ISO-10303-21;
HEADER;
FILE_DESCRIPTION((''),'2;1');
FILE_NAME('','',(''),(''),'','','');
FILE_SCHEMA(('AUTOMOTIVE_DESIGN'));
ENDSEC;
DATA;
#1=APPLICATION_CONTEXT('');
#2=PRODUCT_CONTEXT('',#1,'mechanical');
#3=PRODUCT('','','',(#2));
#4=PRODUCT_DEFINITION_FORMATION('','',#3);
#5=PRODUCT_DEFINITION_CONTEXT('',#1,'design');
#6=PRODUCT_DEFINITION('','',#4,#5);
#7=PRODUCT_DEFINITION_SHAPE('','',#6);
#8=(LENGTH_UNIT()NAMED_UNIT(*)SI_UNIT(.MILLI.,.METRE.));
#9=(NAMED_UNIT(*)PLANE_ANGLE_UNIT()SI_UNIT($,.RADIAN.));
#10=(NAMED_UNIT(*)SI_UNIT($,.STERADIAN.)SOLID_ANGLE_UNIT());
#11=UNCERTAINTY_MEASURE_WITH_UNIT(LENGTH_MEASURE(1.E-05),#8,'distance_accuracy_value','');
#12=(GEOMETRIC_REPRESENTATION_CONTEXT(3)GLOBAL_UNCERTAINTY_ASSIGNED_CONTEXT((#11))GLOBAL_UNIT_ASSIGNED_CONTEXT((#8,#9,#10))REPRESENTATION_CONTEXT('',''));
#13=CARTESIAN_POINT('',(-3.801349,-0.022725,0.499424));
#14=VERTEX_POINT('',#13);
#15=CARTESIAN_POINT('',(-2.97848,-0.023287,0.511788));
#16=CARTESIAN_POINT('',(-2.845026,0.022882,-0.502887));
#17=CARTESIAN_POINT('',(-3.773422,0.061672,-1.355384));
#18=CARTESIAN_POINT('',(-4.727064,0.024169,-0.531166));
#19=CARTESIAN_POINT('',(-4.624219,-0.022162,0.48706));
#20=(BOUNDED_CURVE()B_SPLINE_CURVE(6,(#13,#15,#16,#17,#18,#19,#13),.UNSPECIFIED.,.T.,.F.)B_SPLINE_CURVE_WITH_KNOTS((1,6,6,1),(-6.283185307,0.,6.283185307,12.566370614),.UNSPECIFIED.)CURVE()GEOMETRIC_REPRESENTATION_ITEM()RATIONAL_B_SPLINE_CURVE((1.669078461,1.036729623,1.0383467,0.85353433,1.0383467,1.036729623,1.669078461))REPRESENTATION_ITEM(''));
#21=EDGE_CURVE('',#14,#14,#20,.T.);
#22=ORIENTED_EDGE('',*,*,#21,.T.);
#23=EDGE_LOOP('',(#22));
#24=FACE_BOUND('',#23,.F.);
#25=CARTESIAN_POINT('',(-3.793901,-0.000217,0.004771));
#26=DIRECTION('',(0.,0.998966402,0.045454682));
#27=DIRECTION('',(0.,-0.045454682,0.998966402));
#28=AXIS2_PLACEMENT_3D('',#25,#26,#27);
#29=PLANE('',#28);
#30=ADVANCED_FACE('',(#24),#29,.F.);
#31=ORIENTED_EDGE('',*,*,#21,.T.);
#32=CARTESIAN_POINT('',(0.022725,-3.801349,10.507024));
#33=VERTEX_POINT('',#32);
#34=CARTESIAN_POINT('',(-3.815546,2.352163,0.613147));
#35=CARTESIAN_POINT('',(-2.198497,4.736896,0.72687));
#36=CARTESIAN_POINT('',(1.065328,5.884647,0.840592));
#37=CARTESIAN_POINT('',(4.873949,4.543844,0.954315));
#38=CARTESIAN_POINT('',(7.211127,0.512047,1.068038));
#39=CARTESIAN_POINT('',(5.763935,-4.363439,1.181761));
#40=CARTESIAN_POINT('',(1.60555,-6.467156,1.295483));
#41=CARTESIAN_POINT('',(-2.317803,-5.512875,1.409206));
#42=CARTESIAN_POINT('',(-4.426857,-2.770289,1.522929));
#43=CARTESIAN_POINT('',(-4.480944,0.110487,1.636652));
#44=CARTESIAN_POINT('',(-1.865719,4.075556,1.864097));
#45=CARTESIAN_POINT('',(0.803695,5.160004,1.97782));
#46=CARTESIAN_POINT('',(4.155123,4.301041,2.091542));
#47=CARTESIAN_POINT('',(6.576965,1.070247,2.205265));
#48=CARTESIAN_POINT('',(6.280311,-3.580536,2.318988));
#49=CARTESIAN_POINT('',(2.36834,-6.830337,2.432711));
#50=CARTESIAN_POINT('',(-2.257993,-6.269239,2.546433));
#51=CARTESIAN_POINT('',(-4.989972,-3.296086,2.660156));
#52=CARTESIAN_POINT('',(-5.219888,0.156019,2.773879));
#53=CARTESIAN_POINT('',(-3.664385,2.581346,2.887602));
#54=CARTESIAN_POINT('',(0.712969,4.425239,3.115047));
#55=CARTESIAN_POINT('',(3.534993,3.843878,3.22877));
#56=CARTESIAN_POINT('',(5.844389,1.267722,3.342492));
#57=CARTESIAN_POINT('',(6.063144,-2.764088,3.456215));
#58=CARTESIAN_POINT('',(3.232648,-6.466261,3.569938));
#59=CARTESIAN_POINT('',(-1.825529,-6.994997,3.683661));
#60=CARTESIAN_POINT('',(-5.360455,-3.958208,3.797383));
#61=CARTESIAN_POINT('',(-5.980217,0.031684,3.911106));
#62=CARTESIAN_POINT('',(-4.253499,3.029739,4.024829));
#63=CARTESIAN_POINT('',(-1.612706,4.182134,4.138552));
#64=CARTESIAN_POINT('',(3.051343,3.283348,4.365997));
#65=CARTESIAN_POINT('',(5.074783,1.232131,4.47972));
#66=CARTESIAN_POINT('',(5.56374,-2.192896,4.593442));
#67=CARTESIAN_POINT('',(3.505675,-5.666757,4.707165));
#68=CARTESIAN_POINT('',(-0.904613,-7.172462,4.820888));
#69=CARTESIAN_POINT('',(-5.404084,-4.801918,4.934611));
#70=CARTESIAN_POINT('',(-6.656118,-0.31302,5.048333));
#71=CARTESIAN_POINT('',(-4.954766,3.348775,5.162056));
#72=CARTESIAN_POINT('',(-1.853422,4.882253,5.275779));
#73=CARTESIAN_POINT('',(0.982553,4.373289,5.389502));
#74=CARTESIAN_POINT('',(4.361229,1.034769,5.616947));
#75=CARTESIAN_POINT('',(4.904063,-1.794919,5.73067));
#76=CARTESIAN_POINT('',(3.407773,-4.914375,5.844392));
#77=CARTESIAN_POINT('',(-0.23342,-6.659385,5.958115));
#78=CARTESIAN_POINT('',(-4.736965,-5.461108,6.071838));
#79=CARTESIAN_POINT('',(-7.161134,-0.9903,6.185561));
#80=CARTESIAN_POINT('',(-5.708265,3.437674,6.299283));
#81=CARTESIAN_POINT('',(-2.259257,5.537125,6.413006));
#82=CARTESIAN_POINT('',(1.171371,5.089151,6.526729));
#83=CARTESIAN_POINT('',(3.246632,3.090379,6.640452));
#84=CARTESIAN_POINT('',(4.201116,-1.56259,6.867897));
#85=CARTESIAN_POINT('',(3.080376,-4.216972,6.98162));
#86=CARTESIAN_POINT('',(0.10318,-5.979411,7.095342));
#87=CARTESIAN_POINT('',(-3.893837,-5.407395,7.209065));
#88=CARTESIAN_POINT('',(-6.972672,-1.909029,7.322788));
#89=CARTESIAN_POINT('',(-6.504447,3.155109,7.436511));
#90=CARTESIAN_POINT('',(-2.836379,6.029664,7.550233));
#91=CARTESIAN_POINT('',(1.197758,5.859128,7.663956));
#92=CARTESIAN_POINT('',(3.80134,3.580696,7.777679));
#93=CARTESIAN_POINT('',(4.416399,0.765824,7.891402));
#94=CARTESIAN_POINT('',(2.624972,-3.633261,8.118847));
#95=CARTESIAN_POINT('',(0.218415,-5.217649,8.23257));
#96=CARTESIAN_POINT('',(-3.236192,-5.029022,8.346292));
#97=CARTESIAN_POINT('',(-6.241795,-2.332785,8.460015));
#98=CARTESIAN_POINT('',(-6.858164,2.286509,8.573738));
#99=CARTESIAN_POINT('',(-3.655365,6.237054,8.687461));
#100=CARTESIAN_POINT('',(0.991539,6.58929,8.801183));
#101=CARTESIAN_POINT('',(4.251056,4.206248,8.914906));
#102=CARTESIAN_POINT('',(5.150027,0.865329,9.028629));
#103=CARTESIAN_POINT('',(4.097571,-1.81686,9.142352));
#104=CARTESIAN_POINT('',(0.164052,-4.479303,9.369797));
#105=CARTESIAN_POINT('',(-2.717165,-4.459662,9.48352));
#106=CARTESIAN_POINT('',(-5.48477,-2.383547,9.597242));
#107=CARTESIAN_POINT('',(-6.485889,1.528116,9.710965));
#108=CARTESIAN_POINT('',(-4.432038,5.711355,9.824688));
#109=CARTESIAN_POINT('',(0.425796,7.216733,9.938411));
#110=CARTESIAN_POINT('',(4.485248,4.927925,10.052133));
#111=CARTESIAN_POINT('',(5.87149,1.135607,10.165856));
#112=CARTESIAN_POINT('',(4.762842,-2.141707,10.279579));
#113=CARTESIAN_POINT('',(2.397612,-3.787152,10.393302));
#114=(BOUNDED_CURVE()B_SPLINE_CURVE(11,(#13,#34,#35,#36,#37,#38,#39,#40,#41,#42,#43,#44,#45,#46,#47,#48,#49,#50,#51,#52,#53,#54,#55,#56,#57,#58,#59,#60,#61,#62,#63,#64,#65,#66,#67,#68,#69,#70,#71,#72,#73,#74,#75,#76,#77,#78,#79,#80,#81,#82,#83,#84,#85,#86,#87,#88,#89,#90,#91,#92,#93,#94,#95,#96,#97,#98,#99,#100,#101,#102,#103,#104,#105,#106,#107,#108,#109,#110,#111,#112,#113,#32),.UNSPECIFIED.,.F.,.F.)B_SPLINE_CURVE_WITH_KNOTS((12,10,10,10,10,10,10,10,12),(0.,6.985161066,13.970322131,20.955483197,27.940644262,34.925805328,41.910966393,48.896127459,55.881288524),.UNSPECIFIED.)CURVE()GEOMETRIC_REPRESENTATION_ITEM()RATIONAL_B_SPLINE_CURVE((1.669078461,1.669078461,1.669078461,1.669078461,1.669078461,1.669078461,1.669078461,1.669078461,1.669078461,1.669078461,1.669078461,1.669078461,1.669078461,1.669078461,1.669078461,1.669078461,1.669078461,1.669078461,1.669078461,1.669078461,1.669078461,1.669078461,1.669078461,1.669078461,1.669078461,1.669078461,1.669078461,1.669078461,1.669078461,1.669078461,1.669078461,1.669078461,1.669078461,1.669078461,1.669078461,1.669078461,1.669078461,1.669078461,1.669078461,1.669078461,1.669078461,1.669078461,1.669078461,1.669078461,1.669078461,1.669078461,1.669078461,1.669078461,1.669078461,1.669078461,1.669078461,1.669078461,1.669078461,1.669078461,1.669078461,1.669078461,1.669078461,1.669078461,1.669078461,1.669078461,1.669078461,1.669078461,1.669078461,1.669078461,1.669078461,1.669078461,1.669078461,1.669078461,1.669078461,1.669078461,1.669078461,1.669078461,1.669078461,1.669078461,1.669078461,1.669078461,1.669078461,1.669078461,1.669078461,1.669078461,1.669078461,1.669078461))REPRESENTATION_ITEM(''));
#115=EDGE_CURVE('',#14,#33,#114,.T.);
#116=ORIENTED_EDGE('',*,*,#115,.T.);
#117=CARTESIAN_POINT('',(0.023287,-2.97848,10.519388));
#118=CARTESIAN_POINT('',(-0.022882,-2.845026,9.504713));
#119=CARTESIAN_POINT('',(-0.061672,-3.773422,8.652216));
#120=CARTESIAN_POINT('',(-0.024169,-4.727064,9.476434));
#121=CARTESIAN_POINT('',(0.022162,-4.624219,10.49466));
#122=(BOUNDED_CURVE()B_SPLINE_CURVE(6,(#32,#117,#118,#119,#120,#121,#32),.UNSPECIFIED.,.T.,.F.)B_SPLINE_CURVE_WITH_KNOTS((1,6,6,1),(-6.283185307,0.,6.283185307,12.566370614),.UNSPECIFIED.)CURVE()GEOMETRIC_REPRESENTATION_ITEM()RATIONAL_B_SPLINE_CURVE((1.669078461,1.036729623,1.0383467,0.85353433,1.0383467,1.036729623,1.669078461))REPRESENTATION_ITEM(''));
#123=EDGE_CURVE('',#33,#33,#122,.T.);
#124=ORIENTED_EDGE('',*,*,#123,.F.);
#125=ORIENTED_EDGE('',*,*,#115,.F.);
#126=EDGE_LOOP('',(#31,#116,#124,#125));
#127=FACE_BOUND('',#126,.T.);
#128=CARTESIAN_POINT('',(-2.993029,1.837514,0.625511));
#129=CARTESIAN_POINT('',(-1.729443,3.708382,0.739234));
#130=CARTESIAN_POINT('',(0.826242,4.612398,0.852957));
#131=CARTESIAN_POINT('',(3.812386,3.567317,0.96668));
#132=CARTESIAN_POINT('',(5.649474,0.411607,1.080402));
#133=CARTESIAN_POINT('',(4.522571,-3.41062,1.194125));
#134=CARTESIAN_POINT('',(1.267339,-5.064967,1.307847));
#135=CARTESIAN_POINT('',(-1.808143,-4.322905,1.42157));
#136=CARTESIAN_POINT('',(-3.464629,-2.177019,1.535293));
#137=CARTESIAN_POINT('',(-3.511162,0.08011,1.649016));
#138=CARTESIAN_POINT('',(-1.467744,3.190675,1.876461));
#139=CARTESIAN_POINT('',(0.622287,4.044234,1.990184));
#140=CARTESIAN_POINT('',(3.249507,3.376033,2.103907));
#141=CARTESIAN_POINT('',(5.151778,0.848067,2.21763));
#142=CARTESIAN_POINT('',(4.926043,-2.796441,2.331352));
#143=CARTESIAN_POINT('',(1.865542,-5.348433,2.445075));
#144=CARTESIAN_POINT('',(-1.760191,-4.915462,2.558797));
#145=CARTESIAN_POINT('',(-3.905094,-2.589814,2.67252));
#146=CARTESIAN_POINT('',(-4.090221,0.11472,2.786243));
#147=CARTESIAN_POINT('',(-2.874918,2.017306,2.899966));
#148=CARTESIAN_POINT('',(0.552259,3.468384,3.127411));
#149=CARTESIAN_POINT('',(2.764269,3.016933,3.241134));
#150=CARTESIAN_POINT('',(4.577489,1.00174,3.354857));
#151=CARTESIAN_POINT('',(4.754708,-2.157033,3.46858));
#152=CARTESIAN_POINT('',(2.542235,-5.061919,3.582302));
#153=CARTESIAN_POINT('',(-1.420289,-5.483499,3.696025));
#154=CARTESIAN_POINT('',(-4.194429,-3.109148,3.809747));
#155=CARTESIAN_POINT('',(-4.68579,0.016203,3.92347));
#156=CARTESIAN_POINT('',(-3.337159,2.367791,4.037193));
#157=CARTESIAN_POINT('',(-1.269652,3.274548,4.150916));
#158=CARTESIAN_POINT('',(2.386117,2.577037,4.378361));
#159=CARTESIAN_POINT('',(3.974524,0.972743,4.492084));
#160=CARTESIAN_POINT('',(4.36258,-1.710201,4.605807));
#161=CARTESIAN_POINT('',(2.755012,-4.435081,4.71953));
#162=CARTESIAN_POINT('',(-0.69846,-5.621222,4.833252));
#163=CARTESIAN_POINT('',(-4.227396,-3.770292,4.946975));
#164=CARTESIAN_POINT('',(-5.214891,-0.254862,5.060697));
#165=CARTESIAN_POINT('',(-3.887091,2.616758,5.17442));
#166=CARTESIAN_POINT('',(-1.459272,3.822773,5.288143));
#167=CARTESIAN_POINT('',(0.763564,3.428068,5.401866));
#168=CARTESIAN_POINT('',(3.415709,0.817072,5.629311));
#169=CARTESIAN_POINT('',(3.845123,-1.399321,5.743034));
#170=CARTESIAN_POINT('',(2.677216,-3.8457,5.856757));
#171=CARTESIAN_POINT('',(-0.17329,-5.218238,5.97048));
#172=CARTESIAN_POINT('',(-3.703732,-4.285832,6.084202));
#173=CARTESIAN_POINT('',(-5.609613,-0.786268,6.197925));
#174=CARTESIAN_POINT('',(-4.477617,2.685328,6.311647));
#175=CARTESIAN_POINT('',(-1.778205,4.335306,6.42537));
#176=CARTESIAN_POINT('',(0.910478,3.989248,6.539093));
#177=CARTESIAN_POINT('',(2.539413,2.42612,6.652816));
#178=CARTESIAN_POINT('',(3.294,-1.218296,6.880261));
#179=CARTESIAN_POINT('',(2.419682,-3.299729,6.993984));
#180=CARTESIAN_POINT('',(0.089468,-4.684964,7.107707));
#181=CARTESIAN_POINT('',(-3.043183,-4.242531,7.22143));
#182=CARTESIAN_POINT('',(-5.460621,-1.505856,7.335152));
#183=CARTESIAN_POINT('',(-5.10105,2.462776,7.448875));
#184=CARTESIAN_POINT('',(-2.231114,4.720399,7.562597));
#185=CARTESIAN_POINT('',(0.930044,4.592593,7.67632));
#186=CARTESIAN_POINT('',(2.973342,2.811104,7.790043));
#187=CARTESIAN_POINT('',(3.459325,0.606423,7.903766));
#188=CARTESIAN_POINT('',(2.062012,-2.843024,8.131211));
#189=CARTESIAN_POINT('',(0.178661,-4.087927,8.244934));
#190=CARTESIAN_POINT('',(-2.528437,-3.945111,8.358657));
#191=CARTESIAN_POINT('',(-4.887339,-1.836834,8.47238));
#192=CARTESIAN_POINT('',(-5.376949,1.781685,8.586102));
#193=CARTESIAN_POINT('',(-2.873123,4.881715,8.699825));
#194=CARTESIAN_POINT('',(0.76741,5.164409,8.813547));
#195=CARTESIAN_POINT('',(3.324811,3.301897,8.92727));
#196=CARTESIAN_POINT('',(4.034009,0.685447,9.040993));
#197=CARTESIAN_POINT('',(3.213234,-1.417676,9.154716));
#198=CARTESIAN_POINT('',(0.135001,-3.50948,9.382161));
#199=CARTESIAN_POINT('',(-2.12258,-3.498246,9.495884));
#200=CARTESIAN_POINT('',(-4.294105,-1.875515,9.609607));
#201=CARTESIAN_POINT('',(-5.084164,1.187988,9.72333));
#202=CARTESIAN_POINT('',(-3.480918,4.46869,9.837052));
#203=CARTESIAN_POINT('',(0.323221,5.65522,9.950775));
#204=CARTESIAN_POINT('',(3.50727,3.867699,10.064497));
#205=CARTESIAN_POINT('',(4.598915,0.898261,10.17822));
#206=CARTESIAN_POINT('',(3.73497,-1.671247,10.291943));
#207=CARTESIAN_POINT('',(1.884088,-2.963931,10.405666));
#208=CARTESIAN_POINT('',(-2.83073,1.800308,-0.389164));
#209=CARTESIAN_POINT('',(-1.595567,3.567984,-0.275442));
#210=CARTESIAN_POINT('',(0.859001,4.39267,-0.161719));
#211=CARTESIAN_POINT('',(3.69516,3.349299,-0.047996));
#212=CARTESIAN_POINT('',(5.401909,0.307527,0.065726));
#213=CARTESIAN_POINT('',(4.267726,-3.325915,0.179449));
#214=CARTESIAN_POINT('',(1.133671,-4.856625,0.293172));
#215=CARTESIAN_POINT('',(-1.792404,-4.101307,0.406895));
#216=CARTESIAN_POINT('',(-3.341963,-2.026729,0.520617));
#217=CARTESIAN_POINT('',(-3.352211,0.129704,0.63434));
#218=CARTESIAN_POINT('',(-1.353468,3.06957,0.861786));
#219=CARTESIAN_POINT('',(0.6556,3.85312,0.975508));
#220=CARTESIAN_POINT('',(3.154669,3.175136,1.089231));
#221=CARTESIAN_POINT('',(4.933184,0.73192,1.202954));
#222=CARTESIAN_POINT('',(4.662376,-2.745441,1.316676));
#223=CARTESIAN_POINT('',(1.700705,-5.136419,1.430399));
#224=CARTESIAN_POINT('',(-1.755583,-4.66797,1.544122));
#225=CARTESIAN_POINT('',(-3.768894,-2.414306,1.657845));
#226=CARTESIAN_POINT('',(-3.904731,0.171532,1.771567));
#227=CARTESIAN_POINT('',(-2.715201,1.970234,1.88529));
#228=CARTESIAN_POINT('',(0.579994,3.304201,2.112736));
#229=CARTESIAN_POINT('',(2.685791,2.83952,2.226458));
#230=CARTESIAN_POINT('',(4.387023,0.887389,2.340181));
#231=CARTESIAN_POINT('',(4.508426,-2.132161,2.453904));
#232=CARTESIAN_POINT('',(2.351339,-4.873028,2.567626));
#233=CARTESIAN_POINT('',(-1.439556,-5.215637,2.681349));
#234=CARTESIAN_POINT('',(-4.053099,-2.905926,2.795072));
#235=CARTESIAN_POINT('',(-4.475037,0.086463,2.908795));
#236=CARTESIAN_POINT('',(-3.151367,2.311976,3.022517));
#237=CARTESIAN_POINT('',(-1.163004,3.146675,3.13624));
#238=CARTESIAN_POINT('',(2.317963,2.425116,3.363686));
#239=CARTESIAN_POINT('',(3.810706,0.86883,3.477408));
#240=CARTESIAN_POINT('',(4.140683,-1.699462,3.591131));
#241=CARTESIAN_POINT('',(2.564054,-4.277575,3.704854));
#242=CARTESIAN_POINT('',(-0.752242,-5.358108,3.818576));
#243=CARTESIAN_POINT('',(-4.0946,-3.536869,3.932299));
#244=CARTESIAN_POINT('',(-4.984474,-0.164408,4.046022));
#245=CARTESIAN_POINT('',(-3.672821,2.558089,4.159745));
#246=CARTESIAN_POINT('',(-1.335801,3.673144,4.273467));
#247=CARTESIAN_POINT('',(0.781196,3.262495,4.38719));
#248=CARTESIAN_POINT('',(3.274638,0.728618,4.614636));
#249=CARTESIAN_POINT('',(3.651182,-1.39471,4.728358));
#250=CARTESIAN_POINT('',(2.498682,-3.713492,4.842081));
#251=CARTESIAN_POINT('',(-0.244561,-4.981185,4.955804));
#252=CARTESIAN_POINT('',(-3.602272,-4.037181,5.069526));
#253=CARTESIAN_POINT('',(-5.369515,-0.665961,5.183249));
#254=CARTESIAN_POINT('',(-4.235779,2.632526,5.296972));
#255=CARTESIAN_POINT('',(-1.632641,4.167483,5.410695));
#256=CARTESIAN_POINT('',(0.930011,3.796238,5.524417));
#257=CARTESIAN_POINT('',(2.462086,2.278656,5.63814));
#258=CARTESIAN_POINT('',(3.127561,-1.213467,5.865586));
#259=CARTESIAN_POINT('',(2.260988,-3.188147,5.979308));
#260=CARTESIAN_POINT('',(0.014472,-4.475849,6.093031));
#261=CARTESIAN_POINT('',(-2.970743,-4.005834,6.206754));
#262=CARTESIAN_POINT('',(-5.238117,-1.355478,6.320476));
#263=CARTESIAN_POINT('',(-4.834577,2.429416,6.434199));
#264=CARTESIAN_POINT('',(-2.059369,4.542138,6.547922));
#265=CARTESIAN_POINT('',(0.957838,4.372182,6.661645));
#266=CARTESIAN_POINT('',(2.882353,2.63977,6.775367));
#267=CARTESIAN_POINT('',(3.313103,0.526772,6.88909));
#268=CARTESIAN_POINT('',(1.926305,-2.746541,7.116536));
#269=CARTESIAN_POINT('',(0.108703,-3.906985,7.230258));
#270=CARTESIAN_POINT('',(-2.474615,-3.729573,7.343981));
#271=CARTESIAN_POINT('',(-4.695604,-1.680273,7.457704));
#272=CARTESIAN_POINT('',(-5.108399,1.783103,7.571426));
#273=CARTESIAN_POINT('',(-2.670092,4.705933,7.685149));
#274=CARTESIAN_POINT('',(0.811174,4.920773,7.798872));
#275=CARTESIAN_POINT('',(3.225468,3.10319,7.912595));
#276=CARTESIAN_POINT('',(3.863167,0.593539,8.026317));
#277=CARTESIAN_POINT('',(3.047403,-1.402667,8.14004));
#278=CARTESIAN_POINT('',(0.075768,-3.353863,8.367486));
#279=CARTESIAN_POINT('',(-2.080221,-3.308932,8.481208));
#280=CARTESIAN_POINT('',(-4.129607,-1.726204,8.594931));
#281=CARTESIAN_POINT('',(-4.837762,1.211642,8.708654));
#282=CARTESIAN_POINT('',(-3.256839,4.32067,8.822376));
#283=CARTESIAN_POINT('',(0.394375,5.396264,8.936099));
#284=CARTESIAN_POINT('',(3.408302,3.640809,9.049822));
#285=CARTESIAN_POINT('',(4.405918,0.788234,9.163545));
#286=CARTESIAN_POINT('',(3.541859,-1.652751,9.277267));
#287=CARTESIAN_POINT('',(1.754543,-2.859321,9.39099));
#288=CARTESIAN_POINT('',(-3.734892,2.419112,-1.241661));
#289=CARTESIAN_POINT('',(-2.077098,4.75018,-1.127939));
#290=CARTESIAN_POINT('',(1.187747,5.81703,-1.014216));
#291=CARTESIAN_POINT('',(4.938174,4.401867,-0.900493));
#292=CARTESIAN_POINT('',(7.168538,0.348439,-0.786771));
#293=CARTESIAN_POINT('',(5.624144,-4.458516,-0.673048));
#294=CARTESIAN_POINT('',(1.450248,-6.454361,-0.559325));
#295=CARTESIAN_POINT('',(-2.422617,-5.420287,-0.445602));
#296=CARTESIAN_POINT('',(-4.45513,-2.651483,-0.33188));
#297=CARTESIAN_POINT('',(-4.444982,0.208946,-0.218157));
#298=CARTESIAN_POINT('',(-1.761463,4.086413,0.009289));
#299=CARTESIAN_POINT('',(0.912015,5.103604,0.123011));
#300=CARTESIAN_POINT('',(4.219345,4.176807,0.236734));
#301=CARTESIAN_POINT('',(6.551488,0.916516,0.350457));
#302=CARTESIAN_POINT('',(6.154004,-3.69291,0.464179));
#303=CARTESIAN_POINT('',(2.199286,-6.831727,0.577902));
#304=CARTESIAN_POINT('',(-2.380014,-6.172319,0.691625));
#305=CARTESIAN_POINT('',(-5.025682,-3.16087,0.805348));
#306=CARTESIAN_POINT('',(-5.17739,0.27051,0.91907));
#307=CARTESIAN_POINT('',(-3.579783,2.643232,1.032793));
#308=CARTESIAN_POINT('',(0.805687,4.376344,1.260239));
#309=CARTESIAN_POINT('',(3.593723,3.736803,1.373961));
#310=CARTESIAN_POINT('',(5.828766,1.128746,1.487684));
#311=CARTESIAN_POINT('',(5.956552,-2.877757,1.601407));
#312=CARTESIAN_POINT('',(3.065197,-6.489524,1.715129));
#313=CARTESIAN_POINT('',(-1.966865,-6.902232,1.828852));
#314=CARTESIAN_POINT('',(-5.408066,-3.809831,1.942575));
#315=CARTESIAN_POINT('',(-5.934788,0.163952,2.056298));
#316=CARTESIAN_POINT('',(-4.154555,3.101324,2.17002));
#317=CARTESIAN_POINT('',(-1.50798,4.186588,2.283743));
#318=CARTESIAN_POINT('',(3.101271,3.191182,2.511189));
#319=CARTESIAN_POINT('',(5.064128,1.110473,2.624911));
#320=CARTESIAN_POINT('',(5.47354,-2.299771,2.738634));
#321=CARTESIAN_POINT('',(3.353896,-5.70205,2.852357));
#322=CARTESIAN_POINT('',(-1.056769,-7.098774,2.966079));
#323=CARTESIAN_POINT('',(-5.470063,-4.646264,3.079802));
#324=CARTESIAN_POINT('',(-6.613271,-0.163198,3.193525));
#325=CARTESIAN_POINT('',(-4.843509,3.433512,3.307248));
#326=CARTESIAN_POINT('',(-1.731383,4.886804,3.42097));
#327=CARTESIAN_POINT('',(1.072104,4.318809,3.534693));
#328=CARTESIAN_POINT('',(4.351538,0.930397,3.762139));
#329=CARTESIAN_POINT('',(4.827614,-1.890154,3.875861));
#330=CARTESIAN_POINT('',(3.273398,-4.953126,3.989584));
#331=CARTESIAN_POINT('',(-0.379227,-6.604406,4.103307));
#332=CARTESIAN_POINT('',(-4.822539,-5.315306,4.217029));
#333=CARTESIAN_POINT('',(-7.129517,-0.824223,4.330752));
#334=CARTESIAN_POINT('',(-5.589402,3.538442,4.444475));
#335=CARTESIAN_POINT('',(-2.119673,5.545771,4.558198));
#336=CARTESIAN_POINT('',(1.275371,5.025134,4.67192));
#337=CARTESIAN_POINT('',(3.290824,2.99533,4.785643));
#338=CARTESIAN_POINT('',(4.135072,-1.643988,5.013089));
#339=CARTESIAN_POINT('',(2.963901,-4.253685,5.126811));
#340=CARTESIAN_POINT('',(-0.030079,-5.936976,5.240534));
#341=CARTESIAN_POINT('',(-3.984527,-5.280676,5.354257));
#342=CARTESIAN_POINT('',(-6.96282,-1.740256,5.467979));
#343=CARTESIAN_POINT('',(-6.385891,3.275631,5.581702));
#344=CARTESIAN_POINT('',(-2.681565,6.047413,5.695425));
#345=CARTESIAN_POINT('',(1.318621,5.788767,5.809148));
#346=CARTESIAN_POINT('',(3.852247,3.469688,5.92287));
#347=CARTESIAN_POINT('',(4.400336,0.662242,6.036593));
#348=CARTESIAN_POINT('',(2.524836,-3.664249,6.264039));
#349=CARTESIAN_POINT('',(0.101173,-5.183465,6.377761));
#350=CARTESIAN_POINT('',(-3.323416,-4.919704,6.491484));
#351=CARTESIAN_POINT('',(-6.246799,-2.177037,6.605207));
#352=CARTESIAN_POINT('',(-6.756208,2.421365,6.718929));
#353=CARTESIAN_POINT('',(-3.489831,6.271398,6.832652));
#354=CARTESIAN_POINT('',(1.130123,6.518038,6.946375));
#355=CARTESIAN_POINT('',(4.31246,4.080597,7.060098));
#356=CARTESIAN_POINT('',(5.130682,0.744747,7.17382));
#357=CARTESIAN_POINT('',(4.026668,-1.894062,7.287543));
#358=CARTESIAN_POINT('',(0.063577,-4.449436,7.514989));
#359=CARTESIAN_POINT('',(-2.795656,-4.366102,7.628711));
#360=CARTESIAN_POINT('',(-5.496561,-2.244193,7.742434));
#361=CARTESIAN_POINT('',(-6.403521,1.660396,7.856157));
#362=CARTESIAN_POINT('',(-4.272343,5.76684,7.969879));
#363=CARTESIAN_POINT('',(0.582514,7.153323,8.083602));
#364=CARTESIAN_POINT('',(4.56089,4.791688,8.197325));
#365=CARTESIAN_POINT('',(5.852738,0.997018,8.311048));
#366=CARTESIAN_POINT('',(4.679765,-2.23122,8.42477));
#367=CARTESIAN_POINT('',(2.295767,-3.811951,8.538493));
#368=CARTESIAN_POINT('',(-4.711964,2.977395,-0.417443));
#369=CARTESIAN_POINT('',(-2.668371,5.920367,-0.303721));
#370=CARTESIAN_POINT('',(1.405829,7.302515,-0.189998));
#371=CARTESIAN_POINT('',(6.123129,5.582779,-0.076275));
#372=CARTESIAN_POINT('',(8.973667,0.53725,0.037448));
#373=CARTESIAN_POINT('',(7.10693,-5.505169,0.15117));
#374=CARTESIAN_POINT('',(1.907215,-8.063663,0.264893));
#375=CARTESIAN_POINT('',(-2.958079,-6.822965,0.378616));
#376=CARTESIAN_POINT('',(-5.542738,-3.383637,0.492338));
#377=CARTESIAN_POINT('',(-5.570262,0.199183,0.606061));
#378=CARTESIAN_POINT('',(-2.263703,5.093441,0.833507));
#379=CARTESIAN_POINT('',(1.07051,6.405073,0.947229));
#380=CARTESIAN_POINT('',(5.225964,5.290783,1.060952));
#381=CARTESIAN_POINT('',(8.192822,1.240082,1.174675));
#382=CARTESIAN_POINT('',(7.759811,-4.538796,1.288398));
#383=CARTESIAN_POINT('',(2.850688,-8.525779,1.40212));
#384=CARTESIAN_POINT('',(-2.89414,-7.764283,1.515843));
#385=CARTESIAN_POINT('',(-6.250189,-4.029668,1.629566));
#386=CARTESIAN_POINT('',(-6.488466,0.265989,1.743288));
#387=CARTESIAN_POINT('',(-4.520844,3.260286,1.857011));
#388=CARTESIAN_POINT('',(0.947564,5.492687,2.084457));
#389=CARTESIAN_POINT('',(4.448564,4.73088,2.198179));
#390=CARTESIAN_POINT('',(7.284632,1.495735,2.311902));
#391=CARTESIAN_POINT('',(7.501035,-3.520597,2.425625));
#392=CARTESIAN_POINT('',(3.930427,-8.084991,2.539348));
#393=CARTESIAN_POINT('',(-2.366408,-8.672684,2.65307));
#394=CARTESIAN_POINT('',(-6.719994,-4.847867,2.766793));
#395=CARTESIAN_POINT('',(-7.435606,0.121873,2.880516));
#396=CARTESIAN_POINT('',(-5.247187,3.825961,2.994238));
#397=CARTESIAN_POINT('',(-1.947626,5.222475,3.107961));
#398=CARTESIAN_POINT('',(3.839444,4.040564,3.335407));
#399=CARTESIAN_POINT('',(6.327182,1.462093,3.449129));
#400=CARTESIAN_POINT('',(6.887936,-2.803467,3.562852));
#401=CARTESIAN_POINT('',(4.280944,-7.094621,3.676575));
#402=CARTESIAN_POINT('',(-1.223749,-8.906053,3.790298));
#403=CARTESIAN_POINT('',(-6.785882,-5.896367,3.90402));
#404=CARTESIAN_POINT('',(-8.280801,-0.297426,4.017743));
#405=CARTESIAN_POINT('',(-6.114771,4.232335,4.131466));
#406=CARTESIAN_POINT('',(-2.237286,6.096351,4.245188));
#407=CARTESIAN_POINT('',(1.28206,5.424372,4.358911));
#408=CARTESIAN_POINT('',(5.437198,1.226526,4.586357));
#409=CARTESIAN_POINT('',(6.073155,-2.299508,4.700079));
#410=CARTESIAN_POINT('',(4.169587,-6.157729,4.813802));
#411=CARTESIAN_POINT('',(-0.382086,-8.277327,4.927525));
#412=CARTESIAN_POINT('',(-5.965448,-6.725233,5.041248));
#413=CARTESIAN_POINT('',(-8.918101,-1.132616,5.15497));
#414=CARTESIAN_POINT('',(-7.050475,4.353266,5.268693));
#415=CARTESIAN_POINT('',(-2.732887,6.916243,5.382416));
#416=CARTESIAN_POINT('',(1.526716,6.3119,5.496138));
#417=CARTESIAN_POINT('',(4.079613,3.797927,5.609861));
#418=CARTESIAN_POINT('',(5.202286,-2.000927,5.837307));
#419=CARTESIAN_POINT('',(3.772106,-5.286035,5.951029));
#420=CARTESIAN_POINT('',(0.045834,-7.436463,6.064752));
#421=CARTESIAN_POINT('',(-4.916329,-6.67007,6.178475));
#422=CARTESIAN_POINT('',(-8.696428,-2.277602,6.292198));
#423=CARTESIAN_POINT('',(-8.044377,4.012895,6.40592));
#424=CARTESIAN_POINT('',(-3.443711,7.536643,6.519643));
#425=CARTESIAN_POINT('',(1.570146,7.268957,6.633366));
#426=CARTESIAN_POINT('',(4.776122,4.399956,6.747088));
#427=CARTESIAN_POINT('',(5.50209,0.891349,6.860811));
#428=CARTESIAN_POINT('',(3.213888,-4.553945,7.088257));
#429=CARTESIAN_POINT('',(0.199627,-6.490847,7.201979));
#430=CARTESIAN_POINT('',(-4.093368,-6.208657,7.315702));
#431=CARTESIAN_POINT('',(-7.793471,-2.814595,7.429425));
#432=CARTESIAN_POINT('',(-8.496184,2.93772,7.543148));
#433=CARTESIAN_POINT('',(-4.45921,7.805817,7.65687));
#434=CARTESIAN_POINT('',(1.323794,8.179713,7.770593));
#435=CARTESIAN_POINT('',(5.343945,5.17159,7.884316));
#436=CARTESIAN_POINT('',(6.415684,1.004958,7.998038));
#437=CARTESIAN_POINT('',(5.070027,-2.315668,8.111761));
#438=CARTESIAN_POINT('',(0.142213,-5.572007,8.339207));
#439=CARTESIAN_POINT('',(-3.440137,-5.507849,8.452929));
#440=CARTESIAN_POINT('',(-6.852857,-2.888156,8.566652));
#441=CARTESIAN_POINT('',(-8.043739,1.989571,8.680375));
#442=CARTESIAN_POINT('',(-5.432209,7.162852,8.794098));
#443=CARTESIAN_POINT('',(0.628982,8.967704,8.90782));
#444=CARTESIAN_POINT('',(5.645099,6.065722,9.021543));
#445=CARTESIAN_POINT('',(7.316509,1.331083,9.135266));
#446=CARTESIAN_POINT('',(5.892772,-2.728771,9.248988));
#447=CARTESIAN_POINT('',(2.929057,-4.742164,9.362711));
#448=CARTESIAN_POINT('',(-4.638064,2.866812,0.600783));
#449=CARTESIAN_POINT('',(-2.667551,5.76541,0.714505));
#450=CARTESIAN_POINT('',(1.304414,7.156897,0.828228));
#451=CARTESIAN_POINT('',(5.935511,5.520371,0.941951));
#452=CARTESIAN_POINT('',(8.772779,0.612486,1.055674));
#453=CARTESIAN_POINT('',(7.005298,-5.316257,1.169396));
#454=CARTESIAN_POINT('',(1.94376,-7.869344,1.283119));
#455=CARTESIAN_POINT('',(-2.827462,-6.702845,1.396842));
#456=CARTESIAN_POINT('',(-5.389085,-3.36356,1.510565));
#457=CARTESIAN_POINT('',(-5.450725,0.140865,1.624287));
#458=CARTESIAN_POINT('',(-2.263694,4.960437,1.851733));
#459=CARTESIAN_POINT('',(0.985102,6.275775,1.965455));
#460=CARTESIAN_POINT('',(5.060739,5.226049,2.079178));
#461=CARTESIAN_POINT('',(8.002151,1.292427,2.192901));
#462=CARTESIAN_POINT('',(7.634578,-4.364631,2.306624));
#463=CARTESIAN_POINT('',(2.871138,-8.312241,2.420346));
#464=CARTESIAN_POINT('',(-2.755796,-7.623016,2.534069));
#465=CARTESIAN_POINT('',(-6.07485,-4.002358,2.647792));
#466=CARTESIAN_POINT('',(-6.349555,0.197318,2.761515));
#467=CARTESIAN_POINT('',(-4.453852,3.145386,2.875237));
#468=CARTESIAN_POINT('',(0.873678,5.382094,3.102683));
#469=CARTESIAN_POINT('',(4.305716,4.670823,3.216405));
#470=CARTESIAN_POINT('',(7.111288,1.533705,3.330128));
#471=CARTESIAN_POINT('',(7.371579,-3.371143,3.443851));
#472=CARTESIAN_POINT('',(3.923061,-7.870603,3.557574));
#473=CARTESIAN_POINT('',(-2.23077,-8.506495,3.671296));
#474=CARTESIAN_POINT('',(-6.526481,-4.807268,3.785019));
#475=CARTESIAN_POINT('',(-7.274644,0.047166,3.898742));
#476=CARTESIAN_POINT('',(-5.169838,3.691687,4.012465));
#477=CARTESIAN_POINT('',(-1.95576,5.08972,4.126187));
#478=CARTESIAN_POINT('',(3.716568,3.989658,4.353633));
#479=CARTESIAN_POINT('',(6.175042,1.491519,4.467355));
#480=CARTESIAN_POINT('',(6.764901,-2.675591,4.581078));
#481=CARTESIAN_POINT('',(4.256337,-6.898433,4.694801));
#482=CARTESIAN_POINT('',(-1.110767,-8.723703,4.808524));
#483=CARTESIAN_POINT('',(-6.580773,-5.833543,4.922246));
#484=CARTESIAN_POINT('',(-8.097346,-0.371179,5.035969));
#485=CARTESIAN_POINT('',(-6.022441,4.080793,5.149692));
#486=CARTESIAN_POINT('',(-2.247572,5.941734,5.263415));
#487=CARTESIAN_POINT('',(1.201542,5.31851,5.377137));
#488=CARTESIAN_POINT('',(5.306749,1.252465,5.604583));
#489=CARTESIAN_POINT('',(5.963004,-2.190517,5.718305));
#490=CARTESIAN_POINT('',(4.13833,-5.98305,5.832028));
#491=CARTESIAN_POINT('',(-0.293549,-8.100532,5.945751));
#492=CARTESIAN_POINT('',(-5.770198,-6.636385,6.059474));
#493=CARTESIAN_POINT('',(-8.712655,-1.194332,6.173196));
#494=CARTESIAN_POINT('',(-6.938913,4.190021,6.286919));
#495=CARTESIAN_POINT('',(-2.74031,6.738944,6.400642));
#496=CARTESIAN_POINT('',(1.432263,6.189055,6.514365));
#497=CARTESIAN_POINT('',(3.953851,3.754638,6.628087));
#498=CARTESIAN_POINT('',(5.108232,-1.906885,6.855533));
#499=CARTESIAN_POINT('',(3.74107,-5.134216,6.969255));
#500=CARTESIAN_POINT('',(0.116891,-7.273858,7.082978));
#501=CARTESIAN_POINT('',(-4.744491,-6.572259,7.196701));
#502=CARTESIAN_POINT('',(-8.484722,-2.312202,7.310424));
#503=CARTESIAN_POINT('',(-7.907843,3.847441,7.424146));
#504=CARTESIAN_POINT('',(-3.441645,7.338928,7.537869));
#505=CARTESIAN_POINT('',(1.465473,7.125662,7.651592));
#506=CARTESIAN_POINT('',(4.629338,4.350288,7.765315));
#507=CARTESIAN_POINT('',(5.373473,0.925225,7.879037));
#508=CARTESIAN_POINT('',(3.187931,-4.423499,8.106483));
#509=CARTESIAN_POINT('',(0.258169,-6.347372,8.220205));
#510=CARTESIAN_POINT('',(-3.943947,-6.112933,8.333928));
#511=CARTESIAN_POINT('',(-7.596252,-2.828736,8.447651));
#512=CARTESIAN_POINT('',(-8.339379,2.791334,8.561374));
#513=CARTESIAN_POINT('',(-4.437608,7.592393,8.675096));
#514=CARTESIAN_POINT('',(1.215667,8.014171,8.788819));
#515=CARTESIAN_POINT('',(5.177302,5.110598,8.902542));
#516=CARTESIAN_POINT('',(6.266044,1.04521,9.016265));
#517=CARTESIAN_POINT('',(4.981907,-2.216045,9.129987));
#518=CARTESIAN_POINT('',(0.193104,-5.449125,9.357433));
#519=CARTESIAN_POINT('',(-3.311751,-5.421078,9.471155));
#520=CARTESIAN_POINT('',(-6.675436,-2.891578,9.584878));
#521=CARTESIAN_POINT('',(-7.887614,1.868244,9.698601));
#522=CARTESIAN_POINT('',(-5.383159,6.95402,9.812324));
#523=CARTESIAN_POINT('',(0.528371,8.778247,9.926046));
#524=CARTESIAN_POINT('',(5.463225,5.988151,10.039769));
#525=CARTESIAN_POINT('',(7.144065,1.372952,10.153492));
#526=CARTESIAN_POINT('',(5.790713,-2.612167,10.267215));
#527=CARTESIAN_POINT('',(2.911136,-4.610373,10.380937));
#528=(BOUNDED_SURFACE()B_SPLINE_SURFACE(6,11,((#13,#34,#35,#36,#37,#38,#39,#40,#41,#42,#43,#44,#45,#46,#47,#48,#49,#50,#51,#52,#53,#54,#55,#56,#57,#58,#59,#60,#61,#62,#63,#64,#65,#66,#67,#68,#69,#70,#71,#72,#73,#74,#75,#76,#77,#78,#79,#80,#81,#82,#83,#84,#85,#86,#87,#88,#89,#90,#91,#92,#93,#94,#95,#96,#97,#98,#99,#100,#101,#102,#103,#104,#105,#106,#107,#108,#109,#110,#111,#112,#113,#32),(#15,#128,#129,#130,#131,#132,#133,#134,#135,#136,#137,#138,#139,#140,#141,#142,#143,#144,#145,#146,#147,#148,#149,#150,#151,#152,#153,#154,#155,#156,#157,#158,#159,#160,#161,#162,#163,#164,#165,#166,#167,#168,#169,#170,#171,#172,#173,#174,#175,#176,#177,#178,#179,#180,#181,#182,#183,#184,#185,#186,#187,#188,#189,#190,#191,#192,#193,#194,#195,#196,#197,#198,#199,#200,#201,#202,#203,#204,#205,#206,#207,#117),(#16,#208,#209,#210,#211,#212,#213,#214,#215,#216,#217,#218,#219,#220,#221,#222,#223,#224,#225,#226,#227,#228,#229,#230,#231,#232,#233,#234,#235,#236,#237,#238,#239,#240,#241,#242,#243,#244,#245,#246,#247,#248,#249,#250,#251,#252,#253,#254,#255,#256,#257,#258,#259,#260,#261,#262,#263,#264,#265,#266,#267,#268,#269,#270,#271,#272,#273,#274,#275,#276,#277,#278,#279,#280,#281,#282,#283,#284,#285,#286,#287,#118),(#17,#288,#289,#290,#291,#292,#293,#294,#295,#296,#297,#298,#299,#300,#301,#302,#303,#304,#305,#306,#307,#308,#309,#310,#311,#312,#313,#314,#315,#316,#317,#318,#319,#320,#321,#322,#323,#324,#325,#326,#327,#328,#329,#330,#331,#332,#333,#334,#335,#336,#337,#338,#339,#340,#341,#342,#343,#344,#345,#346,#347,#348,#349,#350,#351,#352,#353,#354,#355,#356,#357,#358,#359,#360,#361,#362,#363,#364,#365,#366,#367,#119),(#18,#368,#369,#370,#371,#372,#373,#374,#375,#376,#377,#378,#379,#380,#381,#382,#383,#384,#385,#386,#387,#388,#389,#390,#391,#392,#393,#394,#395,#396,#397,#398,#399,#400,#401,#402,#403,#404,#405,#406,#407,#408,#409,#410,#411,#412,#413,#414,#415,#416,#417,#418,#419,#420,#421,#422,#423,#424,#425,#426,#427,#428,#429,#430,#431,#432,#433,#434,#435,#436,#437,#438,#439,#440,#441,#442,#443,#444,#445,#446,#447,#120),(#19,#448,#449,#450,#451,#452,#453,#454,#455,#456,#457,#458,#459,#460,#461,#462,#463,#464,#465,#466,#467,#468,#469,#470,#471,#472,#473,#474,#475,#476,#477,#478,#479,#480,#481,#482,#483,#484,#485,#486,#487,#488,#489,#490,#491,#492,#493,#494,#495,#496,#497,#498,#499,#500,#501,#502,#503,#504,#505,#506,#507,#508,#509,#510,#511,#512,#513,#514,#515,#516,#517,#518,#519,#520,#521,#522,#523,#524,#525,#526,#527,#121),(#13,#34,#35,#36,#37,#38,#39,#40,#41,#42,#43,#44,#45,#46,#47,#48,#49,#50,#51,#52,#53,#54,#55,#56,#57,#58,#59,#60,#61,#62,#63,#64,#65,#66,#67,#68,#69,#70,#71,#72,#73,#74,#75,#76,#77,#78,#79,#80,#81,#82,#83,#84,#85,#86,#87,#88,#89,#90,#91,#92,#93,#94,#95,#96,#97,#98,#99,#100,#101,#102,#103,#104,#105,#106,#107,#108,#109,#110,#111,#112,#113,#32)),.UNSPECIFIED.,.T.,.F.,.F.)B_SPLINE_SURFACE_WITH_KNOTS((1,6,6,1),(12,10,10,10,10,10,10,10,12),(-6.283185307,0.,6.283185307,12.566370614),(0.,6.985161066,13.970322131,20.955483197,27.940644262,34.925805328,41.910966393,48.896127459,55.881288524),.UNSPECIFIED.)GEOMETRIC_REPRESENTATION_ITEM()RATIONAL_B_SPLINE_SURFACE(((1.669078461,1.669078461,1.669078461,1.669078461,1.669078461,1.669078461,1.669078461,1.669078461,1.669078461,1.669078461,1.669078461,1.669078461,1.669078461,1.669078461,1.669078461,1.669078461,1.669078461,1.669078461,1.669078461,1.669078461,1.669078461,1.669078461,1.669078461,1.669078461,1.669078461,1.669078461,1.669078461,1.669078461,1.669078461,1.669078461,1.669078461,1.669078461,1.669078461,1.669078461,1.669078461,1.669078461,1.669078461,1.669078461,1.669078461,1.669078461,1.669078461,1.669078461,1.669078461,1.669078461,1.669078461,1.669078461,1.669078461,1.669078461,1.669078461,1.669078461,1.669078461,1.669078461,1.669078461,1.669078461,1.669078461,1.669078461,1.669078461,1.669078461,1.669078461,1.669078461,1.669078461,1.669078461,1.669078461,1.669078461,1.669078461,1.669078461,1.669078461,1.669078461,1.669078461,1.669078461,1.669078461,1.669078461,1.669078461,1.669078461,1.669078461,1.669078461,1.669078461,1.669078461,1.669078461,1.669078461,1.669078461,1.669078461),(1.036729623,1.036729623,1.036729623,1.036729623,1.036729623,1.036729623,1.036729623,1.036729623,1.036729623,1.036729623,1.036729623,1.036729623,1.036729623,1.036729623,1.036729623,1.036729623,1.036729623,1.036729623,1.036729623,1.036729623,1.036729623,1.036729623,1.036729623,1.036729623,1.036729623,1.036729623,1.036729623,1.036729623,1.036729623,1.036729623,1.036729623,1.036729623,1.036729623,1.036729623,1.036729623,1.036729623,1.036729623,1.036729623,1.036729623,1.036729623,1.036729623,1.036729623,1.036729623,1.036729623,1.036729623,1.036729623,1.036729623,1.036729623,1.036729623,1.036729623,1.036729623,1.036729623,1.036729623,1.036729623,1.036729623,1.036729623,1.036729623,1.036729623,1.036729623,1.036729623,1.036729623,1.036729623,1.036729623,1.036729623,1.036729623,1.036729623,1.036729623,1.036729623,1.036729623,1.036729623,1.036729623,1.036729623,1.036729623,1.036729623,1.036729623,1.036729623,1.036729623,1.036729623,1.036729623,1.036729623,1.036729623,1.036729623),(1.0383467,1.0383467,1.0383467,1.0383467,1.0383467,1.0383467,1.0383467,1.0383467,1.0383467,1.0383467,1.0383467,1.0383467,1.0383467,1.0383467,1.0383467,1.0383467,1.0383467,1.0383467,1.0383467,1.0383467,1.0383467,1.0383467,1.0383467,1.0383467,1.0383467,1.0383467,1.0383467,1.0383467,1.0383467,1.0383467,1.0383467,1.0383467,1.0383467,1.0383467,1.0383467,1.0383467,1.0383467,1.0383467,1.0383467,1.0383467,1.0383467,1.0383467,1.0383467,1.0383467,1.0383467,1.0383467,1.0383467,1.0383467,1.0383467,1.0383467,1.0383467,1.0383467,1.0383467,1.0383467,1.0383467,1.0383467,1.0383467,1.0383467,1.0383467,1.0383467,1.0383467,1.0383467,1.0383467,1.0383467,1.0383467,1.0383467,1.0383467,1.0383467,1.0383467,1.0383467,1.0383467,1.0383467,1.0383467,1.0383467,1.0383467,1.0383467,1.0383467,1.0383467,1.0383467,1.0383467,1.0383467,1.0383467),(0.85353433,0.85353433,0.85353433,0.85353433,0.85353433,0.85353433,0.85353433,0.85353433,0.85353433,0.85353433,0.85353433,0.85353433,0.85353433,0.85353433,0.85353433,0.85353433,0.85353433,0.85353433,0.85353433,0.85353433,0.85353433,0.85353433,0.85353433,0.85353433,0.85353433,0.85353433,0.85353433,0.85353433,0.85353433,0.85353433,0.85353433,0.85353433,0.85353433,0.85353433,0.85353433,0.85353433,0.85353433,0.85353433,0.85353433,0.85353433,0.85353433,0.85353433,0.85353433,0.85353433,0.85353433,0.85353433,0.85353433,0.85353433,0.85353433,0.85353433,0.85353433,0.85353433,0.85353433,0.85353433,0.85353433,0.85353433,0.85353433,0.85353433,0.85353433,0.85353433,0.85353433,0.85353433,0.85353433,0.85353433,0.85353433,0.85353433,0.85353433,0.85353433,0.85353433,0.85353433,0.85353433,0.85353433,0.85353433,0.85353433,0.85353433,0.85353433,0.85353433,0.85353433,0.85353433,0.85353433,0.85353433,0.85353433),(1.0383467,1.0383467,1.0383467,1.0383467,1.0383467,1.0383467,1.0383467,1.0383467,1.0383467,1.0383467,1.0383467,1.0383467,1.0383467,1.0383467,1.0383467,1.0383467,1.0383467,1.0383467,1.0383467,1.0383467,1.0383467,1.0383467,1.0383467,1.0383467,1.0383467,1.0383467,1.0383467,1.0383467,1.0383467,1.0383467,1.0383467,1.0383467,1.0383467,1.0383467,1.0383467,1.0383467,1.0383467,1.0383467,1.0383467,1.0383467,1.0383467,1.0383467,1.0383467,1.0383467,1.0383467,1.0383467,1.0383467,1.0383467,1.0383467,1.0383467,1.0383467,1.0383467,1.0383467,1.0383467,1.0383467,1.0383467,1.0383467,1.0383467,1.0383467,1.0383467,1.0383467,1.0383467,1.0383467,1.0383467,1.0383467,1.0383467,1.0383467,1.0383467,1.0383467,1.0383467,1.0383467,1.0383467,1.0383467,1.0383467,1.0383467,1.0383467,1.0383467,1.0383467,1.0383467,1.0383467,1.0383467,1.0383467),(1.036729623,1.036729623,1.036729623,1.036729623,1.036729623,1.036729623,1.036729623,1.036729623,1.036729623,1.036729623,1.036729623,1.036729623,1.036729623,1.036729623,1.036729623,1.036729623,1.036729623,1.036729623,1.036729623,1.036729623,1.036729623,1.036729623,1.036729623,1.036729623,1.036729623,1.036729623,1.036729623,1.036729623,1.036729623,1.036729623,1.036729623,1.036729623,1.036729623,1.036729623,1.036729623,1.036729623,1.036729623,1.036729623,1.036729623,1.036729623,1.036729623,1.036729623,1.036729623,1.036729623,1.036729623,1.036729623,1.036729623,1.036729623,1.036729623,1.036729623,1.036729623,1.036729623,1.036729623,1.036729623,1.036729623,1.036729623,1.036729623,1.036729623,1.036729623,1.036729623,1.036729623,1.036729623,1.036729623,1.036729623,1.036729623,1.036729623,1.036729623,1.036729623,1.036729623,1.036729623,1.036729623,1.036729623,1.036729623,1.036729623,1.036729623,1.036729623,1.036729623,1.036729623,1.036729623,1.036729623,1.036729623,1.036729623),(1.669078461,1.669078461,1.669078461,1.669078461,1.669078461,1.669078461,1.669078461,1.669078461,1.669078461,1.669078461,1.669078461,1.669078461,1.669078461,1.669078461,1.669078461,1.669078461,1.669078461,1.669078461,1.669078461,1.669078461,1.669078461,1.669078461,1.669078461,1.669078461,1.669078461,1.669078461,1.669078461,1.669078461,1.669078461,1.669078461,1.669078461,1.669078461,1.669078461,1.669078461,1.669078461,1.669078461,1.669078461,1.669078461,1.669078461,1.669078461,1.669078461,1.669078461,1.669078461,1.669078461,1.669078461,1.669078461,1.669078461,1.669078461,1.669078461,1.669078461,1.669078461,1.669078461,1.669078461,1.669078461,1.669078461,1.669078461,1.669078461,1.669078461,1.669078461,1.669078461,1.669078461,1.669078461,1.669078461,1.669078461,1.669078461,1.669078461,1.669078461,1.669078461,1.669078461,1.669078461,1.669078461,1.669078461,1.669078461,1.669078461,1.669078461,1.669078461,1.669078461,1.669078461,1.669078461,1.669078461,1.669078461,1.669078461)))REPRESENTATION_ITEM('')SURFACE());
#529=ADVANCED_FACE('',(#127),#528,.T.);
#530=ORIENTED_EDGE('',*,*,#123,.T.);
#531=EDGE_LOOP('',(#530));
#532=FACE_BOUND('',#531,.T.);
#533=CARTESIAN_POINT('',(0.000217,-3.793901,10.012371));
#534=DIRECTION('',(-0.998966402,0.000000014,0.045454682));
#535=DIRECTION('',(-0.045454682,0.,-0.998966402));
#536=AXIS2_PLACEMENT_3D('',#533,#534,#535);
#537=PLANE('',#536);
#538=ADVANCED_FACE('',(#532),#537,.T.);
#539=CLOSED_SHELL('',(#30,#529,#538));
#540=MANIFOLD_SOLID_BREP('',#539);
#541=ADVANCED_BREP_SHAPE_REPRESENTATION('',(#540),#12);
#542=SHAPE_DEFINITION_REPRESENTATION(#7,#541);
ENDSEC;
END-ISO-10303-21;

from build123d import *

# Parameters (mm, degrees)
SWEEP1_PITCH       = 1.143725714
SWEEP1_HEIGHT      = 10.0076
SWEEP1_RADIUS      = 4.0005
SWEEP1_START_ANGLE = -180
SKETCH2_R          = 0.4953


with BuildPart() as part:
    # Sweep1: sweep along a helix
    with BuildLine() as sweep1_path:
        add(Helix(SWEEP1_PITCH, SWEEP1_HEIGHT, SWEEP1_RADIUS, center=(0, 0, 0), direction=(0, 0, 1), lefthand=True, mode=Mode.PRIVATE).rotate(Axis((0, 0, 0), (0, 0, 1)), SWEEP1_START_ANGLE))
    # Sketch2 → Sweep1 (sweep)
    with BuildSketch(Plane(origin=(0, -4.0005, 10.0076), x_dir=(0.045449541063973836, -0.015039595718082556, 0.9988534175632133), z_dir=(-0.9989664017777141, -1.2978789050432926e-13, 0.04545468203922035))):
        with Locations((0.001589314, 0.206647084)):
            Circle(SKETCH2_R)
    sweep(path=sweep1_path.line, is_frenet=True)


solid = part.part
